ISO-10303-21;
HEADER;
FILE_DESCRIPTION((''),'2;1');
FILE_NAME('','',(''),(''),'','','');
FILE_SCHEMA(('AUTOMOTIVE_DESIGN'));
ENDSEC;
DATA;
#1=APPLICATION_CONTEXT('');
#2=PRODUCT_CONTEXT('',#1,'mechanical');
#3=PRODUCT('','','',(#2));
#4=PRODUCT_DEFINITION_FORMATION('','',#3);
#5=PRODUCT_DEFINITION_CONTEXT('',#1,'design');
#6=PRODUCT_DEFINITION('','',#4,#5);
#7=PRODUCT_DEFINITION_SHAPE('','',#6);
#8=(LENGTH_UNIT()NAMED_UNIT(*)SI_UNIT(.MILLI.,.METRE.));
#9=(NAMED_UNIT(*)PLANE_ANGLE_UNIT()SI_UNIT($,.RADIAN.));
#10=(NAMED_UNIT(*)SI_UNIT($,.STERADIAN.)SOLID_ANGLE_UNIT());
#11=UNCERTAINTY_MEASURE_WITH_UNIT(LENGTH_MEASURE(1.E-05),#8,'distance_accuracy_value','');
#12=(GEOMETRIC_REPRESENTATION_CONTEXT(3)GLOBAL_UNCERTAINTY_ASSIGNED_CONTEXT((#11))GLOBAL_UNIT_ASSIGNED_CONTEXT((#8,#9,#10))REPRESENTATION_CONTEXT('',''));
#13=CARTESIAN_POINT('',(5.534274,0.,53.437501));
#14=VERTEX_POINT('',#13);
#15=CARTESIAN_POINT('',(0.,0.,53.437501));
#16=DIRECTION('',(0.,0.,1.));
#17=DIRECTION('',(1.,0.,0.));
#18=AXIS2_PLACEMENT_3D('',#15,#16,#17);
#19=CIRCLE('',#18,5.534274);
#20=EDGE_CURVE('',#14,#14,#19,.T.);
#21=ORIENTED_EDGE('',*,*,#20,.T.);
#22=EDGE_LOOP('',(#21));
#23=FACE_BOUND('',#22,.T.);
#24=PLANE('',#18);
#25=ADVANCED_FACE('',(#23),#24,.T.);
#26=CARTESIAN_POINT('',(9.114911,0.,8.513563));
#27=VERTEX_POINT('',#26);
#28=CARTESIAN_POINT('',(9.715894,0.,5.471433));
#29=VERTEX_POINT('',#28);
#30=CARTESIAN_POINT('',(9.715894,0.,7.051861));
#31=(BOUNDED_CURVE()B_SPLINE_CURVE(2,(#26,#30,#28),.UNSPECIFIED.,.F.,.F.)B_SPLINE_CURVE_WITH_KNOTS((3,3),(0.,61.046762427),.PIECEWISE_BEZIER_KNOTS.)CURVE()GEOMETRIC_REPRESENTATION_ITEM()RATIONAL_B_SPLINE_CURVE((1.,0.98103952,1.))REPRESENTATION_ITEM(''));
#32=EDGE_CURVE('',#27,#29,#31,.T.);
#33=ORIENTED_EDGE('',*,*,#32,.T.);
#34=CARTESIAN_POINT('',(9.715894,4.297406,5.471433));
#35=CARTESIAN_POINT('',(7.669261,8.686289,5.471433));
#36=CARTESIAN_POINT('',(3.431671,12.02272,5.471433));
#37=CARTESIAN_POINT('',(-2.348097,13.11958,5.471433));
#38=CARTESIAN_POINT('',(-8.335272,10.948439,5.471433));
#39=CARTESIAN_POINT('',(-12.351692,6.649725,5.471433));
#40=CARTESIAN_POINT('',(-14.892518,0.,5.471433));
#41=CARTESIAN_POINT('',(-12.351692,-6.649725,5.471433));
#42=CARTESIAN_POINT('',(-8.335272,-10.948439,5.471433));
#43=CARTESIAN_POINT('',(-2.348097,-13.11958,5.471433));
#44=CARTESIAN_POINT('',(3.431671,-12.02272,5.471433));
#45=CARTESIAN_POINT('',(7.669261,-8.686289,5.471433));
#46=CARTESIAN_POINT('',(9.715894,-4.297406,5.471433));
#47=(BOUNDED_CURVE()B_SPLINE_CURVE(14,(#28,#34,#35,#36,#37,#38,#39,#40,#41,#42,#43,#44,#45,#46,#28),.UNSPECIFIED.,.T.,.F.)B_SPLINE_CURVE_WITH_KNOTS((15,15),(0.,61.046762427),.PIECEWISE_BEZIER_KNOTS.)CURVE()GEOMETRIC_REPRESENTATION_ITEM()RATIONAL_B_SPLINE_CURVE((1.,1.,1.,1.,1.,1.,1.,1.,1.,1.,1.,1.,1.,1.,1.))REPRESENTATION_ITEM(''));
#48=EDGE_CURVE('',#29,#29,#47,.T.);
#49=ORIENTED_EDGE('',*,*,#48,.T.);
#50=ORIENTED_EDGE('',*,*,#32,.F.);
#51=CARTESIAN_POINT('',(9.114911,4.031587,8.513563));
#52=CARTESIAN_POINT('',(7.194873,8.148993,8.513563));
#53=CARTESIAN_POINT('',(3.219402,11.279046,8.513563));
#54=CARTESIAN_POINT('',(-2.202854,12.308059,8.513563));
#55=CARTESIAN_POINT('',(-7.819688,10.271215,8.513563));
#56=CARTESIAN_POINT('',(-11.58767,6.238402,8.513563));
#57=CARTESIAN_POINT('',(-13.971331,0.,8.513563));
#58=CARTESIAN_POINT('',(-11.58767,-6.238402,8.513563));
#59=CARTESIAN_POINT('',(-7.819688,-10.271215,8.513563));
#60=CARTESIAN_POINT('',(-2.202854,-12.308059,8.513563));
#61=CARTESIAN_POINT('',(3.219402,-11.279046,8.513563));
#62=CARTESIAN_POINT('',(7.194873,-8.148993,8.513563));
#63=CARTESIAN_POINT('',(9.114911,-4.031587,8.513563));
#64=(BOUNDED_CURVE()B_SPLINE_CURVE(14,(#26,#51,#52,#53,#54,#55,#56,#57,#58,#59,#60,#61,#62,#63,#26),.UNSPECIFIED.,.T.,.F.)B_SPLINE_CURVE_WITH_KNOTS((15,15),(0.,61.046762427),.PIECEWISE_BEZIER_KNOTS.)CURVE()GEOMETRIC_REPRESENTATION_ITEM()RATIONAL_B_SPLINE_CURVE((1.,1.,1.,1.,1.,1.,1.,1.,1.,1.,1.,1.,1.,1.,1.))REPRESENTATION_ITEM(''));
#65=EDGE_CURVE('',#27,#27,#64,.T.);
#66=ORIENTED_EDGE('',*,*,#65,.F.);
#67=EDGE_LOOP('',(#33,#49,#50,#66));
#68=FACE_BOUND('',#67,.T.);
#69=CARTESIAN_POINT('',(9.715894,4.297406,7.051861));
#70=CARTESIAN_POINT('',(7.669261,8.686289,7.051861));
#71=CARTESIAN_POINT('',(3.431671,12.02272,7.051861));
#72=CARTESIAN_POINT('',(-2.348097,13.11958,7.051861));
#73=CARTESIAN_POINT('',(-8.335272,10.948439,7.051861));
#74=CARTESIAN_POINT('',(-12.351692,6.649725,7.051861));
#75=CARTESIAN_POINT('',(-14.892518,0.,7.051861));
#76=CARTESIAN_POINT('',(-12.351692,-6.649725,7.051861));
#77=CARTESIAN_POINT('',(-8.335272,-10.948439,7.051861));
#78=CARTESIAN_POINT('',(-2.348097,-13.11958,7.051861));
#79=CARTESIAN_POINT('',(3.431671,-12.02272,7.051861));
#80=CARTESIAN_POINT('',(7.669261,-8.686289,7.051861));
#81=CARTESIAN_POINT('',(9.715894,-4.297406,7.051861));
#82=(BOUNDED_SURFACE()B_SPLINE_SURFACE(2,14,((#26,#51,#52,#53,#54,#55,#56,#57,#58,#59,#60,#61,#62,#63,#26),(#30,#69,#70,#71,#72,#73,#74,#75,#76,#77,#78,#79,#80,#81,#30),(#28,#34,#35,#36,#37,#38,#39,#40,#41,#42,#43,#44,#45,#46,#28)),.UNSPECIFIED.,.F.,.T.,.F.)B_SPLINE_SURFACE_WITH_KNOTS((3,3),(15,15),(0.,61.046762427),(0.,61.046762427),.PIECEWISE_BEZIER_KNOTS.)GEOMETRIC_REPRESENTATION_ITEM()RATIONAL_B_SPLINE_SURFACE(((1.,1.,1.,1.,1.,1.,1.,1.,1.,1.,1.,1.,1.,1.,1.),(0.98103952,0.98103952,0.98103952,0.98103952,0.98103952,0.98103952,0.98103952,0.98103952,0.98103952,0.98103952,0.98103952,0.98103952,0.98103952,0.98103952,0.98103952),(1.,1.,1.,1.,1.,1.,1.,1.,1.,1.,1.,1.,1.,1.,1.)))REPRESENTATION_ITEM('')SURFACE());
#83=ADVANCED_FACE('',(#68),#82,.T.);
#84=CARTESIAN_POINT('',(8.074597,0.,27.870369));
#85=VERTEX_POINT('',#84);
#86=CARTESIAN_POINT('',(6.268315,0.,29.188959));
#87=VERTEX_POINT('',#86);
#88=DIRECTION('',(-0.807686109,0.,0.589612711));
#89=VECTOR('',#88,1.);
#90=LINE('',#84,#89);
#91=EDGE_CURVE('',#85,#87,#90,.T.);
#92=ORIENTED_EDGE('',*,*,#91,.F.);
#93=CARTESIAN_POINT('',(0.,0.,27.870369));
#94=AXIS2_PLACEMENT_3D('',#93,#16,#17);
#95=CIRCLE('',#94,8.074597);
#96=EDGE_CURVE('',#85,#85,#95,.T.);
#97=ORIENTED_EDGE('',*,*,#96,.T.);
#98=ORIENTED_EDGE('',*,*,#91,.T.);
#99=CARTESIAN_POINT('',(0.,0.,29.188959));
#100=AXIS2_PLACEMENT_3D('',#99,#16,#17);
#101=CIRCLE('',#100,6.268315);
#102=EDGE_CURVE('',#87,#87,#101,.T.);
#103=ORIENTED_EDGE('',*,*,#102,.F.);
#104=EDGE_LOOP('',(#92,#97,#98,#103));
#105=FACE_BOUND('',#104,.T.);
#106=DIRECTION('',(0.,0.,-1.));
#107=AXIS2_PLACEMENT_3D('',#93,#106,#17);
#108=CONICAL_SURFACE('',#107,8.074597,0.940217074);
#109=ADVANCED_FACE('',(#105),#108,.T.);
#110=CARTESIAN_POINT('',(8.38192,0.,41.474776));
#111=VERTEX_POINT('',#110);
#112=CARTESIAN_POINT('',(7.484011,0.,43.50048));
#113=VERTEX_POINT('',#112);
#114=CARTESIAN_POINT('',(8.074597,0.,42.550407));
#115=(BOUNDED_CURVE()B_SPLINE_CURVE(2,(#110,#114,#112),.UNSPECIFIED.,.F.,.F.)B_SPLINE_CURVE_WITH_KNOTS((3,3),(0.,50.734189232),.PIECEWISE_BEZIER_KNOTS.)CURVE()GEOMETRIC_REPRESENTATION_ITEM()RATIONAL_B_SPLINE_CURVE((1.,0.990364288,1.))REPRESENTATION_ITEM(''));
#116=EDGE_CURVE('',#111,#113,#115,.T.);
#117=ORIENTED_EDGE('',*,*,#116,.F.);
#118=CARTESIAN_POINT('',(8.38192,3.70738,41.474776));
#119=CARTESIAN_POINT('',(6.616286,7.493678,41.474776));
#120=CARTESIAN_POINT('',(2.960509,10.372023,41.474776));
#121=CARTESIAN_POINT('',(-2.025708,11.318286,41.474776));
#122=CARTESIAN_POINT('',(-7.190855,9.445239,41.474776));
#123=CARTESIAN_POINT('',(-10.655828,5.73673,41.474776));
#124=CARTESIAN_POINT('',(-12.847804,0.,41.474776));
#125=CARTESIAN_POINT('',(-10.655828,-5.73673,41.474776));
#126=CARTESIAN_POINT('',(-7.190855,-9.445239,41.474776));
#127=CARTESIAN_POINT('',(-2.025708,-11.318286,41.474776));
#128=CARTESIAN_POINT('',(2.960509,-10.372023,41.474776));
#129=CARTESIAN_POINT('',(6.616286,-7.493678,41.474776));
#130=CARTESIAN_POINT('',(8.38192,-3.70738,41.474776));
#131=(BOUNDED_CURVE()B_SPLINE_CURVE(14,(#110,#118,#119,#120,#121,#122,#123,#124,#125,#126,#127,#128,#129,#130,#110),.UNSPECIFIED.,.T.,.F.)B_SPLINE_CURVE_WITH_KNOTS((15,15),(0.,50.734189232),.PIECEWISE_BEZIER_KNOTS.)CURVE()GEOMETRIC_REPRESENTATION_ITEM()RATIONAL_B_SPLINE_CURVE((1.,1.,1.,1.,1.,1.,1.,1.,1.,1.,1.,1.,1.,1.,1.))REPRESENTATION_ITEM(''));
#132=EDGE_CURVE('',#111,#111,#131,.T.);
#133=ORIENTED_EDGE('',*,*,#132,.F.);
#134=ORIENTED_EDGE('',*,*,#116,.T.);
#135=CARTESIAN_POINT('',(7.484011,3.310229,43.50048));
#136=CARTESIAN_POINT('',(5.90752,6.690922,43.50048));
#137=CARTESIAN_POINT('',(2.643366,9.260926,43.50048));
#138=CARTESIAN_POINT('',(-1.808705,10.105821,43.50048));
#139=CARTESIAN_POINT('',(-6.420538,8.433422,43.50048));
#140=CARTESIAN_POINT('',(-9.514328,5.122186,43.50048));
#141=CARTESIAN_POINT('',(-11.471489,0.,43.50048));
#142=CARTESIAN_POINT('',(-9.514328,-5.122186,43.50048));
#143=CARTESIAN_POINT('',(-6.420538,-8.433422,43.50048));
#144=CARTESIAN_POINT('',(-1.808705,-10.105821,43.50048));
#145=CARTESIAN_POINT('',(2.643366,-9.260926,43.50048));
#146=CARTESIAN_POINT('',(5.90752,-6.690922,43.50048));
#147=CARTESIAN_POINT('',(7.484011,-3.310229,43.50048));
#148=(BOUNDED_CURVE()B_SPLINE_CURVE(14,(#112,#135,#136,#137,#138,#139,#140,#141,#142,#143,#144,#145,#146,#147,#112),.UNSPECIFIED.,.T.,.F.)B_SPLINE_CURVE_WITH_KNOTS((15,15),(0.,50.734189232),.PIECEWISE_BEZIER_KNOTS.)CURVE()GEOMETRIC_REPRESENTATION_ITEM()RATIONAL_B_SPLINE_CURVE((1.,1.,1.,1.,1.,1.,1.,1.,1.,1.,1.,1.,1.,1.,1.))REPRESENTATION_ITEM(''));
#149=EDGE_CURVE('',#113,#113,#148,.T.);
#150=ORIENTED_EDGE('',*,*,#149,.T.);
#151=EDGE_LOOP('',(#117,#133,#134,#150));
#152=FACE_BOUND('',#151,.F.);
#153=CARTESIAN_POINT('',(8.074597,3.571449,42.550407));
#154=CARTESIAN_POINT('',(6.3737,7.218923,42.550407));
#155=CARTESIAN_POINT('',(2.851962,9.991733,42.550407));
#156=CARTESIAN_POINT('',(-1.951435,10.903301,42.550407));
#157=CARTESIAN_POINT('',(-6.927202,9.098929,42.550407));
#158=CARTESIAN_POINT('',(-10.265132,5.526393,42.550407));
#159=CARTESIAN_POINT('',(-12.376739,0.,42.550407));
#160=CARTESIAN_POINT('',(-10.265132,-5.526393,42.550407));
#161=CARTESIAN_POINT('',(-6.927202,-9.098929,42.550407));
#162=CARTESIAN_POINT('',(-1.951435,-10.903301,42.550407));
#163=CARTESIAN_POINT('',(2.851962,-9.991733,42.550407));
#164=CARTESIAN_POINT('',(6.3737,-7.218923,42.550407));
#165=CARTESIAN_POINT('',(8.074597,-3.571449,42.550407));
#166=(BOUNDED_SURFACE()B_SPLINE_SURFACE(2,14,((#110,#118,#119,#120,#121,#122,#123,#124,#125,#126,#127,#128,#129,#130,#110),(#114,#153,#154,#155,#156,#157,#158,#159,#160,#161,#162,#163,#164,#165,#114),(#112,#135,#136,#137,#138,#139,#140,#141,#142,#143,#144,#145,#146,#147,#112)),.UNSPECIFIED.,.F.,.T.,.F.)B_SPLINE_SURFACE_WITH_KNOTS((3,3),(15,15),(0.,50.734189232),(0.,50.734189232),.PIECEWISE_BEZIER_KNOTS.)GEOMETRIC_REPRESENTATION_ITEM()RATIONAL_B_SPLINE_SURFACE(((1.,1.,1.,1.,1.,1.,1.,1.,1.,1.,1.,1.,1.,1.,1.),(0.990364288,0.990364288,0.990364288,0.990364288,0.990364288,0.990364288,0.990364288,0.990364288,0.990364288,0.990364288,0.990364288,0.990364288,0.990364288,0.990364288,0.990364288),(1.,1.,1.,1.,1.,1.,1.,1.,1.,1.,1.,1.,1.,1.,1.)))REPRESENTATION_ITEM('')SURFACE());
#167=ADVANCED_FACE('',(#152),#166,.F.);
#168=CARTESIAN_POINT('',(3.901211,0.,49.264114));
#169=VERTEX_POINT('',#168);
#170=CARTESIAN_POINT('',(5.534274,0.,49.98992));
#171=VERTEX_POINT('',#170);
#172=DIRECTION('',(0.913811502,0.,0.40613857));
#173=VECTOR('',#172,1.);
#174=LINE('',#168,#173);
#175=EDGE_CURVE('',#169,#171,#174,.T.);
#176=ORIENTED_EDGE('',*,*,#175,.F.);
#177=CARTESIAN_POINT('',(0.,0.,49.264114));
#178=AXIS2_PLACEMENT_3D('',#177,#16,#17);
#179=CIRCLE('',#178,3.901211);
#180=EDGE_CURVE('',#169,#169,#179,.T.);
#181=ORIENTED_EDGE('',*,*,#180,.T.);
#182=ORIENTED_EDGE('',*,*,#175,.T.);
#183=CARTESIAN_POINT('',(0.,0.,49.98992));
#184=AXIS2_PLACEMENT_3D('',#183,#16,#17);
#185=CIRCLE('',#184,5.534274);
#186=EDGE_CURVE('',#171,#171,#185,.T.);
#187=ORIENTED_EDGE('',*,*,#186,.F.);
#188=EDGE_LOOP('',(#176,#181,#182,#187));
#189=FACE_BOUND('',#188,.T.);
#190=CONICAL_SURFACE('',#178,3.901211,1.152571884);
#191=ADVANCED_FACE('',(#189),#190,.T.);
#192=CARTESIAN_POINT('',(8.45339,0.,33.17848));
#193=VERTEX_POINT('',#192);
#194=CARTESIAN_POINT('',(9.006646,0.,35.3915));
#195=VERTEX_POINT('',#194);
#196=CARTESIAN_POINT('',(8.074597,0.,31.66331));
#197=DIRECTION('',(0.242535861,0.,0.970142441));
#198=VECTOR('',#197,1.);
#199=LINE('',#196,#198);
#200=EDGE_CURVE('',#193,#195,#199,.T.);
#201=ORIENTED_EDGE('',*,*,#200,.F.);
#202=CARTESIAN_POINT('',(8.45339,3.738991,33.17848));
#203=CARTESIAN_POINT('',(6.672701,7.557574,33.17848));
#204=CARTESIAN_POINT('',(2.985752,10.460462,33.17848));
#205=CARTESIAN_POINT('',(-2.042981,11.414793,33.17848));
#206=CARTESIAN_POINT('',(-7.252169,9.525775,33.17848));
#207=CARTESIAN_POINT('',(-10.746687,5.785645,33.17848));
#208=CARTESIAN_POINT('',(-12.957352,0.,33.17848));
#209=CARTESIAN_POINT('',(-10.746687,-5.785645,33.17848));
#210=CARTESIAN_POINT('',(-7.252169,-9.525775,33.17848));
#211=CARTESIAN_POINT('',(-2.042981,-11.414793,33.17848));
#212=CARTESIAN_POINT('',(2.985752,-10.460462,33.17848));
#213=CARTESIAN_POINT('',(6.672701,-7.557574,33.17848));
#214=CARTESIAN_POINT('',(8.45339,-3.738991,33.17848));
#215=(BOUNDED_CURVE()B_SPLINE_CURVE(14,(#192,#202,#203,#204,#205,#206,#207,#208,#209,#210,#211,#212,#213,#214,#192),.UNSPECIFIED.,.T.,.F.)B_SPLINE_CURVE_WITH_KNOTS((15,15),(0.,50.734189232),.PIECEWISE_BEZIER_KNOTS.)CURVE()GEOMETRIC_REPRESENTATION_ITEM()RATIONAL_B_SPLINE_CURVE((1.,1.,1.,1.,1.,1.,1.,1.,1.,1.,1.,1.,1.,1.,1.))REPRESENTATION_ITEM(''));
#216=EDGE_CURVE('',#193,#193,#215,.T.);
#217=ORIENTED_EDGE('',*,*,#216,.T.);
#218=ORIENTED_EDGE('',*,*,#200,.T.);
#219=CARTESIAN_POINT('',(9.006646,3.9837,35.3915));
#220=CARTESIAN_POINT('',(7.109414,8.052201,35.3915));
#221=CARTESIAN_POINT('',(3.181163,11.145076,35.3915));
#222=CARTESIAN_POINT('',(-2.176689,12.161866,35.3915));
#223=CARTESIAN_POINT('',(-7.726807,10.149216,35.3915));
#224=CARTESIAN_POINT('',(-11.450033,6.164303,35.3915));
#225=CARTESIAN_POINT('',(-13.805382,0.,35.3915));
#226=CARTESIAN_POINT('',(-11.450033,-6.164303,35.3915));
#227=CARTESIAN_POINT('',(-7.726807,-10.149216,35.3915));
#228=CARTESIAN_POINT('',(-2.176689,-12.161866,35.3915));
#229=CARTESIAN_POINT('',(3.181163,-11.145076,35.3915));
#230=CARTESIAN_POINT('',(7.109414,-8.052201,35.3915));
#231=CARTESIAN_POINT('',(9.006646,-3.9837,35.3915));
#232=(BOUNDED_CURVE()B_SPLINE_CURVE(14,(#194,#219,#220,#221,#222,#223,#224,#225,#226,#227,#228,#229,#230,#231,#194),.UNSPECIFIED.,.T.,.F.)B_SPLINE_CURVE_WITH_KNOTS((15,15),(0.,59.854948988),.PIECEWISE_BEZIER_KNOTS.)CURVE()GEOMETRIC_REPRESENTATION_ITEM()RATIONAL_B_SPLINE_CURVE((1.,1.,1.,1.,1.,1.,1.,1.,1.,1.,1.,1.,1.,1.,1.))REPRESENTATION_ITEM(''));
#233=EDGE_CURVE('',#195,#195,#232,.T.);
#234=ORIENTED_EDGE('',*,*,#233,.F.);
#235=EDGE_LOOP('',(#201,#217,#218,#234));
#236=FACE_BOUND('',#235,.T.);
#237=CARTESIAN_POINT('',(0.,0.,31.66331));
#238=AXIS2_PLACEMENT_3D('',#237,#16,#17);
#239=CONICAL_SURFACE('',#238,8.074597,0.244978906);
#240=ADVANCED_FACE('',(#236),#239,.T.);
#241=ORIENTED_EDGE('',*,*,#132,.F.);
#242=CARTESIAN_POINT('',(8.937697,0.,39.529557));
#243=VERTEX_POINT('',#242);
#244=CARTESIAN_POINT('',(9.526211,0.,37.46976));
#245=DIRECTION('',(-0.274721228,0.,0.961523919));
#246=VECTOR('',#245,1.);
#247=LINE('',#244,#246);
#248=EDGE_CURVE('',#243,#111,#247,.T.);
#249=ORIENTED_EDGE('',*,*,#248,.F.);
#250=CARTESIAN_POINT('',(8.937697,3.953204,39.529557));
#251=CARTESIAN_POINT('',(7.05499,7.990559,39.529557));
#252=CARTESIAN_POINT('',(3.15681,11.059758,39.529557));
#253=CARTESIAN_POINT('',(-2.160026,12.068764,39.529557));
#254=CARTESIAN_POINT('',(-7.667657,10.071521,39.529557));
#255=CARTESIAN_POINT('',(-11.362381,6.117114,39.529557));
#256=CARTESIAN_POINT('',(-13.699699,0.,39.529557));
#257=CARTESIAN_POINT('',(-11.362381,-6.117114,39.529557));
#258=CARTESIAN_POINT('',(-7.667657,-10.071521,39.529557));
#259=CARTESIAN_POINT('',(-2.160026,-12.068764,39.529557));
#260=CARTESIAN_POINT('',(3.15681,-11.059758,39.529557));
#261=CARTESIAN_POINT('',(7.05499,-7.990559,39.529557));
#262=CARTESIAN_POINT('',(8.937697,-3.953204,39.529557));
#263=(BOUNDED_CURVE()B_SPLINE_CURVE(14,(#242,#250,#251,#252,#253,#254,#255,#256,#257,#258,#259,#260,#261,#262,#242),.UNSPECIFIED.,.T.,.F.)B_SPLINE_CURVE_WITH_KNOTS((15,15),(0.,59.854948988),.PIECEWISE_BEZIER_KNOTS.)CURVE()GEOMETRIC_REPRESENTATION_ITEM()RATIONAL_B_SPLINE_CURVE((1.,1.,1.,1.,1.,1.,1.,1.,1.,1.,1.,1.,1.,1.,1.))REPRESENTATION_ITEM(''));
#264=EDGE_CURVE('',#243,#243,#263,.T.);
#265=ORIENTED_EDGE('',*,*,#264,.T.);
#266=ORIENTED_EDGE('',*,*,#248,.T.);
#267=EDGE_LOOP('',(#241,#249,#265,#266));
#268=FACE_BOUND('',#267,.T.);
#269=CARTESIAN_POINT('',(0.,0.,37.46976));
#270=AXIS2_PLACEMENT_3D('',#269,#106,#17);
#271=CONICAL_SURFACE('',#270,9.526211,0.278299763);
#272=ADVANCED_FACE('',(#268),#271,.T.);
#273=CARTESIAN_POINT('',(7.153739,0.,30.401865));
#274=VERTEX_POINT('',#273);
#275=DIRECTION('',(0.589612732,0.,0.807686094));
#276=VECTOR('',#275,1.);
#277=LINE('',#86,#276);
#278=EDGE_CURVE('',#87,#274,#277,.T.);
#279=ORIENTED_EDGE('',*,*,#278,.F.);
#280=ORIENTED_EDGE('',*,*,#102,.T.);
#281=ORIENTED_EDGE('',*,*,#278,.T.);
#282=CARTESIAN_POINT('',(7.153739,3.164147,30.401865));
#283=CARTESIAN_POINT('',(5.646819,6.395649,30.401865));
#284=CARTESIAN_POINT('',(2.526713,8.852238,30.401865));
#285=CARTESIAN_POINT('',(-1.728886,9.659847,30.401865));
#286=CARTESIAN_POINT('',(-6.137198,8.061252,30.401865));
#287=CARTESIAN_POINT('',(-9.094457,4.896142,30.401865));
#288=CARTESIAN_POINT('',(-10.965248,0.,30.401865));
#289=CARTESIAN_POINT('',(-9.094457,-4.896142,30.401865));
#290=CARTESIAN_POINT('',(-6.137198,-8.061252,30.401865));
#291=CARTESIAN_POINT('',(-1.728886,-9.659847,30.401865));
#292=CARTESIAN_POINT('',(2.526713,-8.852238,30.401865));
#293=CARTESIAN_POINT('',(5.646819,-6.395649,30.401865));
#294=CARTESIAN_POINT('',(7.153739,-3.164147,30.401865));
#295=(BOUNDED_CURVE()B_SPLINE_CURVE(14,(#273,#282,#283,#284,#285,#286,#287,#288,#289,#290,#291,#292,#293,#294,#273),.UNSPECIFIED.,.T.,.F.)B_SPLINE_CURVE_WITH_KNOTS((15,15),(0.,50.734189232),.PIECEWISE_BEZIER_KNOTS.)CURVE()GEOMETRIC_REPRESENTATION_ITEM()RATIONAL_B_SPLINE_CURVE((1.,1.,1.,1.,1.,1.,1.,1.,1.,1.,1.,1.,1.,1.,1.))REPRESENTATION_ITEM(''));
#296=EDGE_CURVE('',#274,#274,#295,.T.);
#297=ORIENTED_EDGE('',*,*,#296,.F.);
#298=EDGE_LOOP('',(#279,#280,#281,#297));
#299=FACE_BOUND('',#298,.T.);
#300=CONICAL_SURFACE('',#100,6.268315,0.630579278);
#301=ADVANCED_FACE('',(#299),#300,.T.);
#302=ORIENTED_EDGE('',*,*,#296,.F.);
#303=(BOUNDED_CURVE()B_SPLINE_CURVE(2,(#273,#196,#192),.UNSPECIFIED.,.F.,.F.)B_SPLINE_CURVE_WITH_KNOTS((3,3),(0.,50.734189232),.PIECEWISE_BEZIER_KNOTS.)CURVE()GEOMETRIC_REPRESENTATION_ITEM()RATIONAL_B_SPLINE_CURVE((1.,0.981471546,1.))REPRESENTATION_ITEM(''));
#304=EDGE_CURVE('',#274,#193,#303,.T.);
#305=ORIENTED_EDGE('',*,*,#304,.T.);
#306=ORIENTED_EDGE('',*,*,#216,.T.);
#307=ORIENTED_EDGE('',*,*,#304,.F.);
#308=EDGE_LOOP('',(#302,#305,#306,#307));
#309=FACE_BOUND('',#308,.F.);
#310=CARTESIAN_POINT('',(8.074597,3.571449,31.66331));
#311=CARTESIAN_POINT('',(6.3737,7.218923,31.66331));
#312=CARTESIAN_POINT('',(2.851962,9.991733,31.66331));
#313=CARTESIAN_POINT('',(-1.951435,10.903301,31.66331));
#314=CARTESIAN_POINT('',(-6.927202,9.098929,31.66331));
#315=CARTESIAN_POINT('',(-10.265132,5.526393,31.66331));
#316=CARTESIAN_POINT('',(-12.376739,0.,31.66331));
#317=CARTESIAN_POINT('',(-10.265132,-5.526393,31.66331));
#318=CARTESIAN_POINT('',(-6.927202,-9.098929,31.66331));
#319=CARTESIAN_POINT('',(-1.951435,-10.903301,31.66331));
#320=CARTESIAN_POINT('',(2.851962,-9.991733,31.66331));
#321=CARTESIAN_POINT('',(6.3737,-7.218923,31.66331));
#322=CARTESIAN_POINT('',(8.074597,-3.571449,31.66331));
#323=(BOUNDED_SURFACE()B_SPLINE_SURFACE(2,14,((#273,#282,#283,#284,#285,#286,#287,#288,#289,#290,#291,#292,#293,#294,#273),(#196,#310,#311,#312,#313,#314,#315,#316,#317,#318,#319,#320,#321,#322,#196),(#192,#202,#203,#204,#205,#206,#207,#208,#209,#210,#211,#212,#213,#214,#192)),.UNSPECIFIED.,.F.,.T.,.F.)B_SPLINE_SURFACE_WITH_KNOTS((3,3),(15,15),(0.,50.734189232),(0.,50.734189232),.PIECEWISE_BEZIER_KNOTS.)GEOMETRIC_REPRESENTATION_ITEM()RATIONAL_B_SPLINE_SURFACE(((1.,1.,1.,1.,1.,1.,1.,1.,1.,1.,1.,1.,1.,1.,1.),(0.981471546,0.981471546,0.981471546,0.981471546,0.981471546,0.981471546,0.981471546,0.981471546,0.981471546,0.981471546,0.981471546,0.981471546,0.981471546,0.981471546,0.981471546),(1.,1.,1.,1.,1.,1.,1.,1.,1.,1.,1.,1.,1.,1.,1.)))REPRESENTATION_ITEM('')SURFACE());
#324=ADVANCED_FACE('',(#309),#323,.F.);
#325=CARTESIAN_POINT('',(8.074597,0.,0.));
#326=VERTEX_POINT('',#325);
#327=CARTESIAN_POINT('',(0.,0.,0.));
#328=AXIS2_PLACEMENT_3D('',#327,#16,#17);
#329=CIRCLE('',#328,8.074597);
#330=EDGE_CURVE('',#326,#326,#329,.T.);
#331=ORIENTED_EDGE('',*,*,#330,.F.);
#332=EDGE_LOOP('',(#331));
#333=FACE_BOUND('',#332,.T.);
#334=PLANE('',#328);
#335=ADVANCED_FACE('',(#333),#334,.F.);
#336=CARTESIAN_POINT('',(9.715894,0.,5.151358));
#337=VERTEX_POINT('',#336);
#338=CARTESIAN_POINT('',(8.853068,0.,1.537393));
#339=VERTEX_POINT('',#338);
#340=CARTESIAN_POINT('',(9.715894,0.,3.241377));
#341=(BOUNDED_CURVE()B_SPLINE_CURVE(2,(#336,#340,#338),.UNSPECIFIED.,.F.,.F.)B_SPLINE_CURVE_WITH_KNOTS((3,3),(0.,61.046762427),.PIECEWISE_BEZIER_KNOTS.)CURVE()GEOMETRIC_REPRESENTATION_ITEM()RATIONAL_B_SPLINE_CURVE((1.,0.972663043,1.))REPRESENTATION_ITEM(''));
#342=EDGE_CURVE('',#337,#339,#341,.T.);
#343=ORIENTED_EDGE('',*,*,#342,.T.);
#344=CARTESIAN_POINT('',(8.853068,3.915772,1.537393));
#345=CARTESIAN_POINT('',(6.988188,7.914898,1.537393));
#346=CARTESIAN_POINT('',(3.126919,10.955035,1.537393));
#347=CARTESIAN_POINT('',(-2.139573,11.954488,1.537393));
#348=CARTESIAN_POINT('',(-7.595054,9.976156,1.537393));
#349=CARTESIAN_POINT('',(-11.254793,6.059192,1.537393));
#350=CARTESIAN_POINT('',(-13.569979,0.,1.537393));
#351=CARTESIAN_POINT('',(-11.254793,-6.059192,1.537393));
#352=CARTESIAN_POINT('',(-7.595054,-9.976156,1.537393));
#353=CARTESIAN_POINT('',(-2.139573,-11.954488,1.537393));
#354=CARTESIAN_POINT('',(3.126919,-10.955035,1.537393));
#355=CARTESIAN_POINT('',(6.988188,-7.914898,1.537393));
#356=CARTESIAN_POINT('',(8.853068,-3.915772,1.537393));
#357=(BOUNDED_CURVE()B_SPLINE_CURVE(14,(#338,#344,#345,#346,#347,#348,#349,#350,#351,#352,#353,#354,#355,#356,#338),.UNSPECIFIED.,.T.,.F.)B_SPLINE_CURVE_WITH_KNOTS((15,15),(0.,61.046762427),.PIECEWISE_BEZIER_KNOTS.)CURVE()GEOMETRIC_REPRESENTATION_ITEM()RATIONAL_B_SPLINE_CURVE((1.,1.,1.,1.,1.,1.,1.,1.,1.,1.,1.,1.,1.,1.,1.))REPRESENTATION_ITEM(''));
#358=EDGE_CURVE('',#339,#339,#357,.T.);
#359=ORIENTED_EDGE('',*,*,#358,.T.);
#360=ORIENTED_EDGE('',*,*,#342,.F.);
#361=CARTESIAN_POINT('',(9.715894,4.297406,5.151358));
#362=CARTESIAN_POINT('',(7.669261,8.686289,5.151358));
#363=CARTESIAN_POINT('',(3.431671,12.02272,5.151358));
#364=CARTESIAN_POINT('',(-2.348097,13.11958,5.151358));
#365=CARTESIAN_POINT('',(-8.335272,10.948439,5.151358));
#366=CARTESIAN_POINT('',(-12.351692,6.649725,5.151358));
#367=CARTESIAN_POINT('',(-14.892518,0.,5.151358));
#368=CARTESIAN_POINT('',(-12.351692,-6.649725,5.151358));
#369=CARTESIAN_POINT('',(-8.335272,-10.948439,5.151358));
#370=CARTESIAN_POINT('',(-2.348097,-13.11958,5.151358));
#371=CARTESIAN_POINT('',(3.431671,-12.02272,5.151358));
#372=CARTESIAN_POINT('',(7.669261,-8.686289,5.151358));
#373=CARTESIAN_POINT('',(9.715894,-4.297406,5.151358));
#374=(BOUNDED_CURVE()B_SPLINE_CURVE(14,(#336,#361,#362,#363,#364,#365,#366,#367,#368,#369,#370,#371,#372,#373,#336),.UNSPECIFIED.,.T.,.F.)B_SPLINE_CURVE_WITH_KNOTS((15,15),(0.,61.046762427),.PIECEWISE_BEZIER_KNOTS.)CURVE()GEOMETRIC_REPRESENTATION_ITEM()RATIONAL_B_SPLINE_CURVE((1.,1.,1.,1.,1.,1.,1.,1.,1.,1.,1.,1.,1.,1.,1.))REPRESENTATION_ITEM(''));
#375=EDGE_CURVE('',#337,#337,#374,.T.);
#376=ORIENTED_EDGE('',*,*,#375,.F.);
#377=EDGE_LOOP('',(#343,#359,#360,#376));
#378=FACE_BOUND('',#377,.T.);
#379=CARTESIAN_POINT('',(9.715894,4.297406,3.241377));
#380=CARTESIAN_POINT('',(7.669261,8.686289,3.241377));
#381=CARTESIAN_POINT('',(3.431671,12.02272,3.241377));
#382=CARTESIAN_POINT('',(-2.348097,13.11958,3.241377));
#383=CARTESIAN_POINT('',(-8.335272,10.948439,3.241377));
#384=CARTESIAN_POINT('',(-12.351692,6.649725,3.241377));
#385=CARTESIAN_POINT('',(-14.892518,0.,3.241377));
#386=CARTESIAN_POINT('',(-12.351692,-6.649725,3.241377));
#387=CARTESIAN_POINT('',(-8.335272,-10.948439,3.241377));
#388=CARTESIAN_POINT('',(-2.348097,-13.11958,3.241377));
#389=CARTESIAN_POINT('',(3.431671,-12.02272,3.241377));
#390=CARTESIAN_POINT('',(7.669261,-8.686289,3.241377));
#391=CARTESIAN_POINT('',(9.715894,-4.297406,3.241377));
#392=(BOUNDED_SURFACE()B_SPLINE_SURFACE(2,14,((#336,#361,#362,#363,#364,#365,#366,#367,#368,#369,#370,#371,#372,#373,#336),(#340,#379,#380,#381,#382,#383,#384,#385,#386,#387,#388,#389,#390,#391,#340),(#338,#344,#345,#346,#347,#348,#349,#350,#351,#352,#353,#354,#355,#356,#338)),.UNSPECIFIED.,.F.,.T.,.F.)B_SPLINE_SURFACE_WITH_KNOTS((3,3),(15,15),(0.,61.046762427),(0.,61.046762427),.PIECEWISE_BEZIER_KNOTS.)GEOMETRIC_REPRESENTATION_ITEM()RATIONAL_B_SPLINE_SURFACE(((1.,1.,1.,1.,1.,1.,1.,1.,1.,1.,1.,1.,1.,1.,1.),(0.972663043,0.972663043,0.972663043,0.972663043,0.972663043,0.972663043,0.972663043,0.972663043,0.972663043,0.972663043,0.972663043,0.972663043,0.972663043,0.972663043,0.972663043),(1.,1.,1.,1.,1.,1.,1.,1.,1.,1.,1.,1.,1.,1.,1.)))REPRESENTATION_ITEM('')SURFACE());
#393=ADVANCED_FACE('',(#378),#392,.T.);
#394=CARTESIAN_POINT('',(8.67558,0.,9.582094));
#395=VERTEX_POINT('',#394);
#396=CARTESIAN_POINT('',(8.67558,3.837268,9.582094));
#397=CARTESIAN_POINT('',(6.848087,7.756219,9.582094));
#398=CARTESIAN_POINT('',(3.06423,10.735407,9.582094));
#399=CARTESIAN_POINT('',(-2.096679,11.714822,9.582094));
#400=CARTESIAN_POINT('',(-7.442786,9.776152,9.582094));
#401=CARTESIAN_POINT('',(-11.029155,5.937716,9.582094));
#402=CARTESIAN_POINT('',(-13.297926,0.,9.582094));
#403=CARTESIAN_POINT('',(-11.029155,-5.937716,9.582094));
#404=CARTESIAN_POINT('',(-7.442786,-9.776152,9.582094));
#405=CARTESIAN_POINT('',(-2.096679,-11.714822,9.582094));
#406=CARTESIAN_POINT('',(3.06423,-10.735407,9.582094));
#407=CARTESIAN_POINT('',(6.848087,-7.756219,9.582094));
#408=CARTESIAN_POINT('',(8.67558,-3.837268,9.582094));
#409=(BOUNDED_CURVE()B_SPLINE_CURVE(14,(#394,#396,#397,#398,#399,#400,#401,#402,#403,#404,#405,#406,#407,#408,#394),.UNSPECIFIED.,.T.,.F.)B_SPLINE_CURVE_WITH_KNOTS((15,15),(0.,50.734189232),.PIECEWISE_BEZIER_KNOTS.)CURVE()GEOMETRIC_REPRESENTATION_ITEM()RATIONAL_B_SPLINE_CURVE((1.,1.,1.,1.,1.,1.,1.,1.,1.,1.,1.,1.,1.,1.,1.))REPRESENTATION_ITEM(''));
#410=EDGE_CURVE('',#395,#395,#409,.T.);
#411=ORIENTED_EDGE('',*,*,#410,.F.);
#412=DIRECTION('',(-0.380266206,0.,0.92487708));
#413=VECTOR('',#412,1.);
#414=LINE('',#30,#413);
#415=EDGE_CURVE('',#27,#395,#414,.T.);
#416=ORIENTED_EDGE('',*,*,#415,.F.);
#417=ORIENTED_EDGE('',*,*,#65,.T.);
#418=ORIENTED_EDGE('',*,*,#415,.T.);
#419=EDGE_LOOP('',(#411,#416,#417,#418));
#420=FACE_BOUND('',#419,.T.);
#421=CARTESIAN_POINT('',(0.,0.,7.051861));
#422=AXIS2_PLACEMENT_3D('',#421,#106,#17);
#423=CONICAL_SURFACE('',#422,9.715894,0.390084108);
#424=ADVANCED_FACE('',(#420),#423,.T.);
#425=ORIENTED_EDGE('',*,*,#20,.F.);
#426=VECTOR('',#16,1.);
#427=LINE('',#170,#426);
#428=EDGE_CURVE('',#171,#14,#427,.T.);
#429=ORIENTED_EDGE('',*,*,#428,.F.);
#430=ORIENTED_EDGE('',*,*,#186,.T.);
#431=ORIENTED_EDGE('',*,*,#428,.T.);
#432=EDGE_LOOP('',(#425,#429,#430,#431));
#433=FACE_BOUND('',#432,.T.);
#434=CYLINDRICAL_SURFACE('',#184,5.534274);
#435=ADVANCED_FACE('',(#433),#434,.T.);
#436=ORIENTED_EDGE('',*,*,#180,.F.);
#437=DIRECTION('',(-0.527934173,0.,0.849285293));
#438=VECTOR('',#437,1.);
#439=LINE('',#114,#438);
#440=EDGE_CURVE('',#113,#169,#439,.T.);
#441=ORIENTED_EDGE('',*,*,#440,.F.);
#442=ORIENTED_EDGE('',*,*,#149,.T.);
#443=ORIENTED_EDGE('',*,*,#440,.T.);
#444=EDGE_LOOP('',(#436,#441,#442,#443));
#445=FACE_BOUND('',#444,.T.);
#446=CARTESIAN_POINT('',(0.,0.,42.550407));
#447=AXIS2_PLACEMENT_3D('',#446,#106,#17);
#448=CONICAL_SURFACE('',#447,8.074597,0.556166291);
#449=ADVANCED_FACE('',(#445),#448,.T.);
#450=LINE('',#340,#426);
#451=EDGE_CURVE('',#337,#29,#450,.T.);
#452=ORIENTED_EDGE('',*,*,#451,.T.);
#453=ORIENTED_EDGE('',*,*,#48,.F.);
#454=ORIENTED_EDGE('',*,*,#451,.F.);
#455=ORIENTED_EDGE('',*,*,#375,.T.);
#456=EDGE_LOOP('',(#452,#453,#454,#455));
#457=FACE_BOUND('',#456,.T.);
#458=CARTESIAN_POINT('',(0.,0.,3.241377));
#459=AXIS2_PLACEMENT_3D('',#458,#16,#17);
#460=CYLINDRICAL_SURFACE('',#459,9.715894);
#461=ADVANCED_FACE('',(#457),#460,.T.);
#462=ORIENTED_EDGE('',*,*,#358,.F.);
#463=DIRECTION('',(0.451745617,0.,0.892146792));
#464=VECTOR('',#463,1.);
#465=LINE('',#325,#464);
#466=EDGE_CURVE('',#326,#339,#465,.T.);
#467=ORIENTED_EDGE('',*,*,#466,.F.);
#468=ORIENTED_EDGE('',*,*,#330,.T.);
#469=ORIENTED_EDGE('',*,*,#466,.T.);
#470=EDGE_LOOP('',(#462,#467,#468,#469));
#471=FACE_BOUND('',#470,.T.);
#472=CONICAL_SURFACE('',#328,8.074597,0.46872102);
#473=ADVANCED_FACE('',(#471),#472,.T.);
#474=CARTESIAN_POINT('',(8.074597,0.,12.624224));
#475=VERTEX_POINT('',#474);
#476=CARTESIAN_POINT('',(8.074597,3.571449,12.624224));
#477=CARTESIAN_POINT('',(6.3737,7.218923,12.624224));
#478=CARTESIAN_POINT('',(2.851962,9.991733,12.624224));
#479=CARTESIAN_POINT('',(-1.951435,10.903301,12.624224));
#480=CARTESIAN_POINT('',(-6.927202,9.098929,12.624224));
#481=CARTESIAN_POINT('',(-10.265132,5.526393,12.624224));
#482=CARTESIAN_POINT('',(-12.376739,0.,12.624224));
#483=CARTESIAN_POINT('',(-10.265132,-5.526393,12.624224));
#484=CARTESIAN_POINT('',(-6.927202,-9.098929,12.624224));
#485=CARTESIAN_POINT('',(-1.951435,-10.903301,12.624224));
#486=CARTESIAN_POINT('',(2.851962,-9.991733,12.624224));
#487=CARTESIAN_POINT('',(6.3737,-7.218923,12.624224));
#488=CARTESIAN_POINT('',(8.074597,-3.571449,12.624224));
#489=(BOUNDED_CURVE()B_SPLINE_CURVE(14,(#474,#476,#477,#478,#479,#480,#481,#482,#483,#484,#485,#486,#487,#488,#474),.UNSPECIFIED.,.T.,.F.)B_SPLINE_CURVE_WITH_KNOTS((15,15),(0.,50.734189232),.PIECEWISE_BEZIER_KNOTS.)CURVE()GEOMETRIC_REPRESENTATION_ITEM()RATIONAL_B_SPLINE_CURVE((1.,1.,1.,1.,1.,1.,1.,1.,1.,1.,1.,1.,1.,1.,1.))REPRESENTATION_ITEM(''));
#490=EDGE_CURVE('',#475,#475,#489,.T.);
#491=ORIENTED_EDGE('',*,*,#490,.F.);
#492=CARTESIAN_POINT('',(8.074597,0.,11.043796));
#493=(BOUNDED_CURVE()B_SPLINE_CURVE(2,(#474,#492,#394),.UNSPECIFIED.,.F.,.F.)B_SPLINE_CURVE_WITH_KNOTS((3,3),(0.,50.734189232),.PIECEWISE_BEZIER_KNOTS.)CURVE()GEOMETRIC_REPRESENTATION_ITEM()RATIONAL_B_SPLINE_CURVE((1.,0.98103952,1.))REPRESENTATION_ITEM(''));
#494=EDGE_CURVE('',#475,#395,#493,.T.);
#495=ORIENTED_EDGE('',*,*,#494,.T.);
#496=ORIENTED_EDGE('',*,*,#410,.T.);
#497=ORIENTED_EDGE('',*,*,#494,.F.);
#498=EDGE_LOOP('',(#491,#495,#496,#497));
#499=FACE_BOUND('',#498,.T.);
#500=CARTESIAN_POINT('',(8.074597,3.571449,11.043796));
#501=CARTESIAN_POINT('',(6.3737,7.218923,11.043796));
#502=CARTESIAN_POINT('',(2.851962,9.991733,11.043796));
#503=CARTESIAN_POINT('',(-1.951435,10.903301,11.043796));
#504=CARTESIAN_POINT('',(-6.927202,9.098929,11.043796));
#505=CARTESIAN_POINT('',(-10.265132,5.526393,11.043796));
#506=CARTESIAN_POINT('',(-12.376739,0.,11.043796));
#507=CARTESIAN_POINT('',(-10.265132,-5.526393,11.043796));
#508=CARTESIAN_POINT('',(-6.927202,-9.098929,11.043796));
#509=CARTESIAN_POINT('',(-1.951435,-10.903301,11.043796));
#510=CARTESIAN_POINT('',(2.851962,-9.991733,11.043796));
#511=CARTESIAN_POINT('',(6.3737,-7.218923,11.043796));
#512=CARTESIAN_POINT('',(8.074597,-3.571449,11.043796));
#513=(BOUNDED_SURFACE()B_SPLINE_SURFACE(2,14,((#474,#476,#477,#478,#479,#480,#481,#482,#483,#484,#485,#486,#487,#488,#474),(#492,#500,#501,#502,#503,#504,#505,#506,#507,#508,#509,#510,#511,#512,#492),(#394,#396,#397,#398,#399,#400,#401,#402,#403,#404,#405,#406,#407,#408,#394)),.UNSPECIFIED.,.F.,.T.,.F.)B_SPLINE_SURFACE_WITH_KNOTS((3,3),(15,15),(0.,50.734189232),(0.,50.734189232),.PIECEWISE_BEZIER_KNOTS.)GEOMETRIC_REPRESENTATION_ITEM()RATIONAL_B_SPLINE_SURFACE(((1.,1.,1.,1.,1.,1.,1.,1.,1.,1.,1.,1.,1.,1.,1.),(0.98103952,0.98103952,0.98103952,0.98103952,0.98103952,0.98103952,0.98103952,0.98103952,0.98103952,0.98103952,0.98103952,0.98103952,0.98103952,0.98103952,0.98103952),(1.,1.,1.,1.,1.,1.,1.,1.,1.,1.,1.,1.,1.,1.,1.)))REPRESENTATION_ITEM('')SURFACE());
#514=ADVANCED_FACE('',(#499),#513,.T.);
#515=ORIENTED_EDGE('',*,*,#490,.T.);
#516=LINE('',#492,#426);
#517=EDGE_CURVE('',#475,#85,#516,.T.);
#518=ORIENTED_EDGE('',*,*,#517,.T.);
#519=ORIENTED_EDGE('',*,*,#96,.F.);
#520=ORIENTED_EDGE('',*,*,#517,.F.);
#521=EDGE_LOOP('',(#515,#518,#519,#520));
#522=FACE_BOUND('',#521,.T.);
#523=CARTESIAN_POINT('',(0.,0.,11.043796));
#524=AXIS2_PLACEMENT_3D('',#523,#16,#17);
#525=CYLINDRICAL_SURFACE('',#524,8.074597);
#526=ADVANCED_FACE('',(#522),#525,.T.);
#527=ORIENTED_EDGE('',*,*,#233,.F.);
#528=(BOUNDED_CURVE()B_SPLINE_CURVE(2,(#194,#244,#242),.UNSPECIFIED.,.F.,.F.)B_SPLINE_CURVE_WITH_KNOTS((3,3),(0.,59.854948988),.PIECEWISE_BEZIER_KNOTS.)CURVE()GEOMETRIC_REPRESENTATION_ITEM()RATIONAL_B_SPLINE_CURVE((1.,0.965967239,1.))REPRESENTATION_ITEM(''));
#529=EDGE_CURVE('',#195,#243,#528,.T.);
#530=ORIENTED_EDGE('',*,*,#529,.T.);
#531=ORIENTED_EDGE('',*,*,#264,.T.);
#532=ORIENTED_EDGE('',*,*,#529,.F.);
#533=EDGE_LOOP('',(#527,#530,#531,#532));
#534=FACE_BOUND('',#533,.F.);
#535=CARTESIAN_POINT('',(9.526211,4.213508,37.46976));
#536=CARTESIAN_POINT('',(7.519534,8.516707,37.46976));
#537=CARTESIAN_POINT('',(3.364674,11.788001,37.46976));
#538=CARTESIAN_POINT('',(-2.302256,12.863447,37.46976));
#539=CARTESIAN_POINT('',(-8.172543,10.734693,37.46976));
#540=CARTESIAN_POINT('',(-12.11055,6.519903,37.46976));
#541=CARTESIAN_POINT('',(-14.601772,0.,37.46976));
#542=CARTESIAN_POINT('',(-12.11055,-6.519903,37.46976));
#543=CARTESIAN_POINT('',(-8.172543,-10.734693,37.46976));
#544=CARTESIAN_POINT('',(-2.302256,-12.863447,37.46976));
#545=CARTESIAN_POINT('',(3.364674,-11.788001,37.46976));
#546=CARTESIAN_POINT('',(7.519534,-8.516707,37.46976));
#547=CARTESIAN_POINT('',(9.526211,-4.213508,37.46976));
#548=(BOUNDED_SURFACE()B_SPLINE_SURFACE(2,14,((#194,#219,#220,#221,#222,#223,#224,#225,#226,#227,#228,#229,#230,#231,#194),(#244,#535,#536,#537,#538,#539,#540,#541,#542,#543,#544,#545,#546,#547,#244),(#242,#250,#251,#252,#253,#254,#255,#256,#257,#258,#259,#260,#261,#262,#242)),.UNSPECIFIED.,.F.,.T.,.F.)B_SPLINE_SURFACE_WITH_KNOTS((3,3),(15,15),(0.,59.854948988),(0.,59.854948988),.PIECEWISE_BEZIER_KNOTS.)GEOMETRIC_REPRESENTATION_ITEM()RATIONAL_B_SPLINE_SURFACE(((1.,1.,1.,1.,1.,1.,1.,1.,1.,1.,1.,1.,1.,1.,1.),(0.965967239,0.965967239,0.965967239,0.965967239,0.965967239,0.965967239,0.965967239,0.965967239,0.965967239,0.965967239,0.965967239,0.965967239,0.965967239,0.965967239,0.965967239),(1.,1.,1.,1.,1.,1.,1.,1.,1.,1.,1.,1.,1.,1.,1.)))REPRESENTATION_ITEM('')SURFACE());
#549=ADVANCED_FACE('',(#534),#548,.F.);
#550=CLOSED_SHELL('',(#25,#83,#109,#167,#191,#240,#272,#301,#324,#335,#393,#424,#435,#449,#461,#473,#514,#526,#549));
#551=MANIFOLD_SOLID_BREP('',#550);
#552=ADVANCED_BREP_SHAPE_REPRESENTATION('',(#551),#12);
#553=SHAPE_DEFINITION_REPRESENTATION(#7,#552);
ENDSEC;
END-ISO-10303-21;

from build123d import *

# Parameters (mm, degrees)
F2_R = 8
F3_R = 8


with BuildPart() as f1:
    # F0 (on Front) → F1 (revolve)
    with BuildSketch(Plane.XZ):
        Polygon((5.534274, 53.437501), (0, 53.437501), (0, 0), (8.074597, 0), (9.715894, 3.241377), (9.715894, 7.051861), (8.074597, 11.043796), (8.074597, 27.870369), (6.268315, 29.188959), (8.074597, 31.66331), (9.526211, 37.46976), (8.074597, 42.550407), (3.901211, 49.264114), (5.534274, 49.98992), align=None)
    revolve(axis=Axis((0, 0, 26.718751), (0, 0, 1)))

    # F2
    f2_edges = [f1.edges().sort_by_distance(p)[0] for p in [
        (-8.074597, 0, 42.550407),
        (-9.526211, 0, 37.46976),
        (-8.074597, 0, 31.66331),
    ]]
    fillet(f2_edges, radius=F2_R)

    # F3
    f3_edges = [f1.edges().sort_by_distance(p)[0] for p in [
        (-8.074597, 0, 11.043796),
        (-9.715894, 0, 7.051861),
        (-9.715894, 0, 3.241377),
    ]]
    fillet(f3_edges, radius=F3_R)


solid = f1.part
